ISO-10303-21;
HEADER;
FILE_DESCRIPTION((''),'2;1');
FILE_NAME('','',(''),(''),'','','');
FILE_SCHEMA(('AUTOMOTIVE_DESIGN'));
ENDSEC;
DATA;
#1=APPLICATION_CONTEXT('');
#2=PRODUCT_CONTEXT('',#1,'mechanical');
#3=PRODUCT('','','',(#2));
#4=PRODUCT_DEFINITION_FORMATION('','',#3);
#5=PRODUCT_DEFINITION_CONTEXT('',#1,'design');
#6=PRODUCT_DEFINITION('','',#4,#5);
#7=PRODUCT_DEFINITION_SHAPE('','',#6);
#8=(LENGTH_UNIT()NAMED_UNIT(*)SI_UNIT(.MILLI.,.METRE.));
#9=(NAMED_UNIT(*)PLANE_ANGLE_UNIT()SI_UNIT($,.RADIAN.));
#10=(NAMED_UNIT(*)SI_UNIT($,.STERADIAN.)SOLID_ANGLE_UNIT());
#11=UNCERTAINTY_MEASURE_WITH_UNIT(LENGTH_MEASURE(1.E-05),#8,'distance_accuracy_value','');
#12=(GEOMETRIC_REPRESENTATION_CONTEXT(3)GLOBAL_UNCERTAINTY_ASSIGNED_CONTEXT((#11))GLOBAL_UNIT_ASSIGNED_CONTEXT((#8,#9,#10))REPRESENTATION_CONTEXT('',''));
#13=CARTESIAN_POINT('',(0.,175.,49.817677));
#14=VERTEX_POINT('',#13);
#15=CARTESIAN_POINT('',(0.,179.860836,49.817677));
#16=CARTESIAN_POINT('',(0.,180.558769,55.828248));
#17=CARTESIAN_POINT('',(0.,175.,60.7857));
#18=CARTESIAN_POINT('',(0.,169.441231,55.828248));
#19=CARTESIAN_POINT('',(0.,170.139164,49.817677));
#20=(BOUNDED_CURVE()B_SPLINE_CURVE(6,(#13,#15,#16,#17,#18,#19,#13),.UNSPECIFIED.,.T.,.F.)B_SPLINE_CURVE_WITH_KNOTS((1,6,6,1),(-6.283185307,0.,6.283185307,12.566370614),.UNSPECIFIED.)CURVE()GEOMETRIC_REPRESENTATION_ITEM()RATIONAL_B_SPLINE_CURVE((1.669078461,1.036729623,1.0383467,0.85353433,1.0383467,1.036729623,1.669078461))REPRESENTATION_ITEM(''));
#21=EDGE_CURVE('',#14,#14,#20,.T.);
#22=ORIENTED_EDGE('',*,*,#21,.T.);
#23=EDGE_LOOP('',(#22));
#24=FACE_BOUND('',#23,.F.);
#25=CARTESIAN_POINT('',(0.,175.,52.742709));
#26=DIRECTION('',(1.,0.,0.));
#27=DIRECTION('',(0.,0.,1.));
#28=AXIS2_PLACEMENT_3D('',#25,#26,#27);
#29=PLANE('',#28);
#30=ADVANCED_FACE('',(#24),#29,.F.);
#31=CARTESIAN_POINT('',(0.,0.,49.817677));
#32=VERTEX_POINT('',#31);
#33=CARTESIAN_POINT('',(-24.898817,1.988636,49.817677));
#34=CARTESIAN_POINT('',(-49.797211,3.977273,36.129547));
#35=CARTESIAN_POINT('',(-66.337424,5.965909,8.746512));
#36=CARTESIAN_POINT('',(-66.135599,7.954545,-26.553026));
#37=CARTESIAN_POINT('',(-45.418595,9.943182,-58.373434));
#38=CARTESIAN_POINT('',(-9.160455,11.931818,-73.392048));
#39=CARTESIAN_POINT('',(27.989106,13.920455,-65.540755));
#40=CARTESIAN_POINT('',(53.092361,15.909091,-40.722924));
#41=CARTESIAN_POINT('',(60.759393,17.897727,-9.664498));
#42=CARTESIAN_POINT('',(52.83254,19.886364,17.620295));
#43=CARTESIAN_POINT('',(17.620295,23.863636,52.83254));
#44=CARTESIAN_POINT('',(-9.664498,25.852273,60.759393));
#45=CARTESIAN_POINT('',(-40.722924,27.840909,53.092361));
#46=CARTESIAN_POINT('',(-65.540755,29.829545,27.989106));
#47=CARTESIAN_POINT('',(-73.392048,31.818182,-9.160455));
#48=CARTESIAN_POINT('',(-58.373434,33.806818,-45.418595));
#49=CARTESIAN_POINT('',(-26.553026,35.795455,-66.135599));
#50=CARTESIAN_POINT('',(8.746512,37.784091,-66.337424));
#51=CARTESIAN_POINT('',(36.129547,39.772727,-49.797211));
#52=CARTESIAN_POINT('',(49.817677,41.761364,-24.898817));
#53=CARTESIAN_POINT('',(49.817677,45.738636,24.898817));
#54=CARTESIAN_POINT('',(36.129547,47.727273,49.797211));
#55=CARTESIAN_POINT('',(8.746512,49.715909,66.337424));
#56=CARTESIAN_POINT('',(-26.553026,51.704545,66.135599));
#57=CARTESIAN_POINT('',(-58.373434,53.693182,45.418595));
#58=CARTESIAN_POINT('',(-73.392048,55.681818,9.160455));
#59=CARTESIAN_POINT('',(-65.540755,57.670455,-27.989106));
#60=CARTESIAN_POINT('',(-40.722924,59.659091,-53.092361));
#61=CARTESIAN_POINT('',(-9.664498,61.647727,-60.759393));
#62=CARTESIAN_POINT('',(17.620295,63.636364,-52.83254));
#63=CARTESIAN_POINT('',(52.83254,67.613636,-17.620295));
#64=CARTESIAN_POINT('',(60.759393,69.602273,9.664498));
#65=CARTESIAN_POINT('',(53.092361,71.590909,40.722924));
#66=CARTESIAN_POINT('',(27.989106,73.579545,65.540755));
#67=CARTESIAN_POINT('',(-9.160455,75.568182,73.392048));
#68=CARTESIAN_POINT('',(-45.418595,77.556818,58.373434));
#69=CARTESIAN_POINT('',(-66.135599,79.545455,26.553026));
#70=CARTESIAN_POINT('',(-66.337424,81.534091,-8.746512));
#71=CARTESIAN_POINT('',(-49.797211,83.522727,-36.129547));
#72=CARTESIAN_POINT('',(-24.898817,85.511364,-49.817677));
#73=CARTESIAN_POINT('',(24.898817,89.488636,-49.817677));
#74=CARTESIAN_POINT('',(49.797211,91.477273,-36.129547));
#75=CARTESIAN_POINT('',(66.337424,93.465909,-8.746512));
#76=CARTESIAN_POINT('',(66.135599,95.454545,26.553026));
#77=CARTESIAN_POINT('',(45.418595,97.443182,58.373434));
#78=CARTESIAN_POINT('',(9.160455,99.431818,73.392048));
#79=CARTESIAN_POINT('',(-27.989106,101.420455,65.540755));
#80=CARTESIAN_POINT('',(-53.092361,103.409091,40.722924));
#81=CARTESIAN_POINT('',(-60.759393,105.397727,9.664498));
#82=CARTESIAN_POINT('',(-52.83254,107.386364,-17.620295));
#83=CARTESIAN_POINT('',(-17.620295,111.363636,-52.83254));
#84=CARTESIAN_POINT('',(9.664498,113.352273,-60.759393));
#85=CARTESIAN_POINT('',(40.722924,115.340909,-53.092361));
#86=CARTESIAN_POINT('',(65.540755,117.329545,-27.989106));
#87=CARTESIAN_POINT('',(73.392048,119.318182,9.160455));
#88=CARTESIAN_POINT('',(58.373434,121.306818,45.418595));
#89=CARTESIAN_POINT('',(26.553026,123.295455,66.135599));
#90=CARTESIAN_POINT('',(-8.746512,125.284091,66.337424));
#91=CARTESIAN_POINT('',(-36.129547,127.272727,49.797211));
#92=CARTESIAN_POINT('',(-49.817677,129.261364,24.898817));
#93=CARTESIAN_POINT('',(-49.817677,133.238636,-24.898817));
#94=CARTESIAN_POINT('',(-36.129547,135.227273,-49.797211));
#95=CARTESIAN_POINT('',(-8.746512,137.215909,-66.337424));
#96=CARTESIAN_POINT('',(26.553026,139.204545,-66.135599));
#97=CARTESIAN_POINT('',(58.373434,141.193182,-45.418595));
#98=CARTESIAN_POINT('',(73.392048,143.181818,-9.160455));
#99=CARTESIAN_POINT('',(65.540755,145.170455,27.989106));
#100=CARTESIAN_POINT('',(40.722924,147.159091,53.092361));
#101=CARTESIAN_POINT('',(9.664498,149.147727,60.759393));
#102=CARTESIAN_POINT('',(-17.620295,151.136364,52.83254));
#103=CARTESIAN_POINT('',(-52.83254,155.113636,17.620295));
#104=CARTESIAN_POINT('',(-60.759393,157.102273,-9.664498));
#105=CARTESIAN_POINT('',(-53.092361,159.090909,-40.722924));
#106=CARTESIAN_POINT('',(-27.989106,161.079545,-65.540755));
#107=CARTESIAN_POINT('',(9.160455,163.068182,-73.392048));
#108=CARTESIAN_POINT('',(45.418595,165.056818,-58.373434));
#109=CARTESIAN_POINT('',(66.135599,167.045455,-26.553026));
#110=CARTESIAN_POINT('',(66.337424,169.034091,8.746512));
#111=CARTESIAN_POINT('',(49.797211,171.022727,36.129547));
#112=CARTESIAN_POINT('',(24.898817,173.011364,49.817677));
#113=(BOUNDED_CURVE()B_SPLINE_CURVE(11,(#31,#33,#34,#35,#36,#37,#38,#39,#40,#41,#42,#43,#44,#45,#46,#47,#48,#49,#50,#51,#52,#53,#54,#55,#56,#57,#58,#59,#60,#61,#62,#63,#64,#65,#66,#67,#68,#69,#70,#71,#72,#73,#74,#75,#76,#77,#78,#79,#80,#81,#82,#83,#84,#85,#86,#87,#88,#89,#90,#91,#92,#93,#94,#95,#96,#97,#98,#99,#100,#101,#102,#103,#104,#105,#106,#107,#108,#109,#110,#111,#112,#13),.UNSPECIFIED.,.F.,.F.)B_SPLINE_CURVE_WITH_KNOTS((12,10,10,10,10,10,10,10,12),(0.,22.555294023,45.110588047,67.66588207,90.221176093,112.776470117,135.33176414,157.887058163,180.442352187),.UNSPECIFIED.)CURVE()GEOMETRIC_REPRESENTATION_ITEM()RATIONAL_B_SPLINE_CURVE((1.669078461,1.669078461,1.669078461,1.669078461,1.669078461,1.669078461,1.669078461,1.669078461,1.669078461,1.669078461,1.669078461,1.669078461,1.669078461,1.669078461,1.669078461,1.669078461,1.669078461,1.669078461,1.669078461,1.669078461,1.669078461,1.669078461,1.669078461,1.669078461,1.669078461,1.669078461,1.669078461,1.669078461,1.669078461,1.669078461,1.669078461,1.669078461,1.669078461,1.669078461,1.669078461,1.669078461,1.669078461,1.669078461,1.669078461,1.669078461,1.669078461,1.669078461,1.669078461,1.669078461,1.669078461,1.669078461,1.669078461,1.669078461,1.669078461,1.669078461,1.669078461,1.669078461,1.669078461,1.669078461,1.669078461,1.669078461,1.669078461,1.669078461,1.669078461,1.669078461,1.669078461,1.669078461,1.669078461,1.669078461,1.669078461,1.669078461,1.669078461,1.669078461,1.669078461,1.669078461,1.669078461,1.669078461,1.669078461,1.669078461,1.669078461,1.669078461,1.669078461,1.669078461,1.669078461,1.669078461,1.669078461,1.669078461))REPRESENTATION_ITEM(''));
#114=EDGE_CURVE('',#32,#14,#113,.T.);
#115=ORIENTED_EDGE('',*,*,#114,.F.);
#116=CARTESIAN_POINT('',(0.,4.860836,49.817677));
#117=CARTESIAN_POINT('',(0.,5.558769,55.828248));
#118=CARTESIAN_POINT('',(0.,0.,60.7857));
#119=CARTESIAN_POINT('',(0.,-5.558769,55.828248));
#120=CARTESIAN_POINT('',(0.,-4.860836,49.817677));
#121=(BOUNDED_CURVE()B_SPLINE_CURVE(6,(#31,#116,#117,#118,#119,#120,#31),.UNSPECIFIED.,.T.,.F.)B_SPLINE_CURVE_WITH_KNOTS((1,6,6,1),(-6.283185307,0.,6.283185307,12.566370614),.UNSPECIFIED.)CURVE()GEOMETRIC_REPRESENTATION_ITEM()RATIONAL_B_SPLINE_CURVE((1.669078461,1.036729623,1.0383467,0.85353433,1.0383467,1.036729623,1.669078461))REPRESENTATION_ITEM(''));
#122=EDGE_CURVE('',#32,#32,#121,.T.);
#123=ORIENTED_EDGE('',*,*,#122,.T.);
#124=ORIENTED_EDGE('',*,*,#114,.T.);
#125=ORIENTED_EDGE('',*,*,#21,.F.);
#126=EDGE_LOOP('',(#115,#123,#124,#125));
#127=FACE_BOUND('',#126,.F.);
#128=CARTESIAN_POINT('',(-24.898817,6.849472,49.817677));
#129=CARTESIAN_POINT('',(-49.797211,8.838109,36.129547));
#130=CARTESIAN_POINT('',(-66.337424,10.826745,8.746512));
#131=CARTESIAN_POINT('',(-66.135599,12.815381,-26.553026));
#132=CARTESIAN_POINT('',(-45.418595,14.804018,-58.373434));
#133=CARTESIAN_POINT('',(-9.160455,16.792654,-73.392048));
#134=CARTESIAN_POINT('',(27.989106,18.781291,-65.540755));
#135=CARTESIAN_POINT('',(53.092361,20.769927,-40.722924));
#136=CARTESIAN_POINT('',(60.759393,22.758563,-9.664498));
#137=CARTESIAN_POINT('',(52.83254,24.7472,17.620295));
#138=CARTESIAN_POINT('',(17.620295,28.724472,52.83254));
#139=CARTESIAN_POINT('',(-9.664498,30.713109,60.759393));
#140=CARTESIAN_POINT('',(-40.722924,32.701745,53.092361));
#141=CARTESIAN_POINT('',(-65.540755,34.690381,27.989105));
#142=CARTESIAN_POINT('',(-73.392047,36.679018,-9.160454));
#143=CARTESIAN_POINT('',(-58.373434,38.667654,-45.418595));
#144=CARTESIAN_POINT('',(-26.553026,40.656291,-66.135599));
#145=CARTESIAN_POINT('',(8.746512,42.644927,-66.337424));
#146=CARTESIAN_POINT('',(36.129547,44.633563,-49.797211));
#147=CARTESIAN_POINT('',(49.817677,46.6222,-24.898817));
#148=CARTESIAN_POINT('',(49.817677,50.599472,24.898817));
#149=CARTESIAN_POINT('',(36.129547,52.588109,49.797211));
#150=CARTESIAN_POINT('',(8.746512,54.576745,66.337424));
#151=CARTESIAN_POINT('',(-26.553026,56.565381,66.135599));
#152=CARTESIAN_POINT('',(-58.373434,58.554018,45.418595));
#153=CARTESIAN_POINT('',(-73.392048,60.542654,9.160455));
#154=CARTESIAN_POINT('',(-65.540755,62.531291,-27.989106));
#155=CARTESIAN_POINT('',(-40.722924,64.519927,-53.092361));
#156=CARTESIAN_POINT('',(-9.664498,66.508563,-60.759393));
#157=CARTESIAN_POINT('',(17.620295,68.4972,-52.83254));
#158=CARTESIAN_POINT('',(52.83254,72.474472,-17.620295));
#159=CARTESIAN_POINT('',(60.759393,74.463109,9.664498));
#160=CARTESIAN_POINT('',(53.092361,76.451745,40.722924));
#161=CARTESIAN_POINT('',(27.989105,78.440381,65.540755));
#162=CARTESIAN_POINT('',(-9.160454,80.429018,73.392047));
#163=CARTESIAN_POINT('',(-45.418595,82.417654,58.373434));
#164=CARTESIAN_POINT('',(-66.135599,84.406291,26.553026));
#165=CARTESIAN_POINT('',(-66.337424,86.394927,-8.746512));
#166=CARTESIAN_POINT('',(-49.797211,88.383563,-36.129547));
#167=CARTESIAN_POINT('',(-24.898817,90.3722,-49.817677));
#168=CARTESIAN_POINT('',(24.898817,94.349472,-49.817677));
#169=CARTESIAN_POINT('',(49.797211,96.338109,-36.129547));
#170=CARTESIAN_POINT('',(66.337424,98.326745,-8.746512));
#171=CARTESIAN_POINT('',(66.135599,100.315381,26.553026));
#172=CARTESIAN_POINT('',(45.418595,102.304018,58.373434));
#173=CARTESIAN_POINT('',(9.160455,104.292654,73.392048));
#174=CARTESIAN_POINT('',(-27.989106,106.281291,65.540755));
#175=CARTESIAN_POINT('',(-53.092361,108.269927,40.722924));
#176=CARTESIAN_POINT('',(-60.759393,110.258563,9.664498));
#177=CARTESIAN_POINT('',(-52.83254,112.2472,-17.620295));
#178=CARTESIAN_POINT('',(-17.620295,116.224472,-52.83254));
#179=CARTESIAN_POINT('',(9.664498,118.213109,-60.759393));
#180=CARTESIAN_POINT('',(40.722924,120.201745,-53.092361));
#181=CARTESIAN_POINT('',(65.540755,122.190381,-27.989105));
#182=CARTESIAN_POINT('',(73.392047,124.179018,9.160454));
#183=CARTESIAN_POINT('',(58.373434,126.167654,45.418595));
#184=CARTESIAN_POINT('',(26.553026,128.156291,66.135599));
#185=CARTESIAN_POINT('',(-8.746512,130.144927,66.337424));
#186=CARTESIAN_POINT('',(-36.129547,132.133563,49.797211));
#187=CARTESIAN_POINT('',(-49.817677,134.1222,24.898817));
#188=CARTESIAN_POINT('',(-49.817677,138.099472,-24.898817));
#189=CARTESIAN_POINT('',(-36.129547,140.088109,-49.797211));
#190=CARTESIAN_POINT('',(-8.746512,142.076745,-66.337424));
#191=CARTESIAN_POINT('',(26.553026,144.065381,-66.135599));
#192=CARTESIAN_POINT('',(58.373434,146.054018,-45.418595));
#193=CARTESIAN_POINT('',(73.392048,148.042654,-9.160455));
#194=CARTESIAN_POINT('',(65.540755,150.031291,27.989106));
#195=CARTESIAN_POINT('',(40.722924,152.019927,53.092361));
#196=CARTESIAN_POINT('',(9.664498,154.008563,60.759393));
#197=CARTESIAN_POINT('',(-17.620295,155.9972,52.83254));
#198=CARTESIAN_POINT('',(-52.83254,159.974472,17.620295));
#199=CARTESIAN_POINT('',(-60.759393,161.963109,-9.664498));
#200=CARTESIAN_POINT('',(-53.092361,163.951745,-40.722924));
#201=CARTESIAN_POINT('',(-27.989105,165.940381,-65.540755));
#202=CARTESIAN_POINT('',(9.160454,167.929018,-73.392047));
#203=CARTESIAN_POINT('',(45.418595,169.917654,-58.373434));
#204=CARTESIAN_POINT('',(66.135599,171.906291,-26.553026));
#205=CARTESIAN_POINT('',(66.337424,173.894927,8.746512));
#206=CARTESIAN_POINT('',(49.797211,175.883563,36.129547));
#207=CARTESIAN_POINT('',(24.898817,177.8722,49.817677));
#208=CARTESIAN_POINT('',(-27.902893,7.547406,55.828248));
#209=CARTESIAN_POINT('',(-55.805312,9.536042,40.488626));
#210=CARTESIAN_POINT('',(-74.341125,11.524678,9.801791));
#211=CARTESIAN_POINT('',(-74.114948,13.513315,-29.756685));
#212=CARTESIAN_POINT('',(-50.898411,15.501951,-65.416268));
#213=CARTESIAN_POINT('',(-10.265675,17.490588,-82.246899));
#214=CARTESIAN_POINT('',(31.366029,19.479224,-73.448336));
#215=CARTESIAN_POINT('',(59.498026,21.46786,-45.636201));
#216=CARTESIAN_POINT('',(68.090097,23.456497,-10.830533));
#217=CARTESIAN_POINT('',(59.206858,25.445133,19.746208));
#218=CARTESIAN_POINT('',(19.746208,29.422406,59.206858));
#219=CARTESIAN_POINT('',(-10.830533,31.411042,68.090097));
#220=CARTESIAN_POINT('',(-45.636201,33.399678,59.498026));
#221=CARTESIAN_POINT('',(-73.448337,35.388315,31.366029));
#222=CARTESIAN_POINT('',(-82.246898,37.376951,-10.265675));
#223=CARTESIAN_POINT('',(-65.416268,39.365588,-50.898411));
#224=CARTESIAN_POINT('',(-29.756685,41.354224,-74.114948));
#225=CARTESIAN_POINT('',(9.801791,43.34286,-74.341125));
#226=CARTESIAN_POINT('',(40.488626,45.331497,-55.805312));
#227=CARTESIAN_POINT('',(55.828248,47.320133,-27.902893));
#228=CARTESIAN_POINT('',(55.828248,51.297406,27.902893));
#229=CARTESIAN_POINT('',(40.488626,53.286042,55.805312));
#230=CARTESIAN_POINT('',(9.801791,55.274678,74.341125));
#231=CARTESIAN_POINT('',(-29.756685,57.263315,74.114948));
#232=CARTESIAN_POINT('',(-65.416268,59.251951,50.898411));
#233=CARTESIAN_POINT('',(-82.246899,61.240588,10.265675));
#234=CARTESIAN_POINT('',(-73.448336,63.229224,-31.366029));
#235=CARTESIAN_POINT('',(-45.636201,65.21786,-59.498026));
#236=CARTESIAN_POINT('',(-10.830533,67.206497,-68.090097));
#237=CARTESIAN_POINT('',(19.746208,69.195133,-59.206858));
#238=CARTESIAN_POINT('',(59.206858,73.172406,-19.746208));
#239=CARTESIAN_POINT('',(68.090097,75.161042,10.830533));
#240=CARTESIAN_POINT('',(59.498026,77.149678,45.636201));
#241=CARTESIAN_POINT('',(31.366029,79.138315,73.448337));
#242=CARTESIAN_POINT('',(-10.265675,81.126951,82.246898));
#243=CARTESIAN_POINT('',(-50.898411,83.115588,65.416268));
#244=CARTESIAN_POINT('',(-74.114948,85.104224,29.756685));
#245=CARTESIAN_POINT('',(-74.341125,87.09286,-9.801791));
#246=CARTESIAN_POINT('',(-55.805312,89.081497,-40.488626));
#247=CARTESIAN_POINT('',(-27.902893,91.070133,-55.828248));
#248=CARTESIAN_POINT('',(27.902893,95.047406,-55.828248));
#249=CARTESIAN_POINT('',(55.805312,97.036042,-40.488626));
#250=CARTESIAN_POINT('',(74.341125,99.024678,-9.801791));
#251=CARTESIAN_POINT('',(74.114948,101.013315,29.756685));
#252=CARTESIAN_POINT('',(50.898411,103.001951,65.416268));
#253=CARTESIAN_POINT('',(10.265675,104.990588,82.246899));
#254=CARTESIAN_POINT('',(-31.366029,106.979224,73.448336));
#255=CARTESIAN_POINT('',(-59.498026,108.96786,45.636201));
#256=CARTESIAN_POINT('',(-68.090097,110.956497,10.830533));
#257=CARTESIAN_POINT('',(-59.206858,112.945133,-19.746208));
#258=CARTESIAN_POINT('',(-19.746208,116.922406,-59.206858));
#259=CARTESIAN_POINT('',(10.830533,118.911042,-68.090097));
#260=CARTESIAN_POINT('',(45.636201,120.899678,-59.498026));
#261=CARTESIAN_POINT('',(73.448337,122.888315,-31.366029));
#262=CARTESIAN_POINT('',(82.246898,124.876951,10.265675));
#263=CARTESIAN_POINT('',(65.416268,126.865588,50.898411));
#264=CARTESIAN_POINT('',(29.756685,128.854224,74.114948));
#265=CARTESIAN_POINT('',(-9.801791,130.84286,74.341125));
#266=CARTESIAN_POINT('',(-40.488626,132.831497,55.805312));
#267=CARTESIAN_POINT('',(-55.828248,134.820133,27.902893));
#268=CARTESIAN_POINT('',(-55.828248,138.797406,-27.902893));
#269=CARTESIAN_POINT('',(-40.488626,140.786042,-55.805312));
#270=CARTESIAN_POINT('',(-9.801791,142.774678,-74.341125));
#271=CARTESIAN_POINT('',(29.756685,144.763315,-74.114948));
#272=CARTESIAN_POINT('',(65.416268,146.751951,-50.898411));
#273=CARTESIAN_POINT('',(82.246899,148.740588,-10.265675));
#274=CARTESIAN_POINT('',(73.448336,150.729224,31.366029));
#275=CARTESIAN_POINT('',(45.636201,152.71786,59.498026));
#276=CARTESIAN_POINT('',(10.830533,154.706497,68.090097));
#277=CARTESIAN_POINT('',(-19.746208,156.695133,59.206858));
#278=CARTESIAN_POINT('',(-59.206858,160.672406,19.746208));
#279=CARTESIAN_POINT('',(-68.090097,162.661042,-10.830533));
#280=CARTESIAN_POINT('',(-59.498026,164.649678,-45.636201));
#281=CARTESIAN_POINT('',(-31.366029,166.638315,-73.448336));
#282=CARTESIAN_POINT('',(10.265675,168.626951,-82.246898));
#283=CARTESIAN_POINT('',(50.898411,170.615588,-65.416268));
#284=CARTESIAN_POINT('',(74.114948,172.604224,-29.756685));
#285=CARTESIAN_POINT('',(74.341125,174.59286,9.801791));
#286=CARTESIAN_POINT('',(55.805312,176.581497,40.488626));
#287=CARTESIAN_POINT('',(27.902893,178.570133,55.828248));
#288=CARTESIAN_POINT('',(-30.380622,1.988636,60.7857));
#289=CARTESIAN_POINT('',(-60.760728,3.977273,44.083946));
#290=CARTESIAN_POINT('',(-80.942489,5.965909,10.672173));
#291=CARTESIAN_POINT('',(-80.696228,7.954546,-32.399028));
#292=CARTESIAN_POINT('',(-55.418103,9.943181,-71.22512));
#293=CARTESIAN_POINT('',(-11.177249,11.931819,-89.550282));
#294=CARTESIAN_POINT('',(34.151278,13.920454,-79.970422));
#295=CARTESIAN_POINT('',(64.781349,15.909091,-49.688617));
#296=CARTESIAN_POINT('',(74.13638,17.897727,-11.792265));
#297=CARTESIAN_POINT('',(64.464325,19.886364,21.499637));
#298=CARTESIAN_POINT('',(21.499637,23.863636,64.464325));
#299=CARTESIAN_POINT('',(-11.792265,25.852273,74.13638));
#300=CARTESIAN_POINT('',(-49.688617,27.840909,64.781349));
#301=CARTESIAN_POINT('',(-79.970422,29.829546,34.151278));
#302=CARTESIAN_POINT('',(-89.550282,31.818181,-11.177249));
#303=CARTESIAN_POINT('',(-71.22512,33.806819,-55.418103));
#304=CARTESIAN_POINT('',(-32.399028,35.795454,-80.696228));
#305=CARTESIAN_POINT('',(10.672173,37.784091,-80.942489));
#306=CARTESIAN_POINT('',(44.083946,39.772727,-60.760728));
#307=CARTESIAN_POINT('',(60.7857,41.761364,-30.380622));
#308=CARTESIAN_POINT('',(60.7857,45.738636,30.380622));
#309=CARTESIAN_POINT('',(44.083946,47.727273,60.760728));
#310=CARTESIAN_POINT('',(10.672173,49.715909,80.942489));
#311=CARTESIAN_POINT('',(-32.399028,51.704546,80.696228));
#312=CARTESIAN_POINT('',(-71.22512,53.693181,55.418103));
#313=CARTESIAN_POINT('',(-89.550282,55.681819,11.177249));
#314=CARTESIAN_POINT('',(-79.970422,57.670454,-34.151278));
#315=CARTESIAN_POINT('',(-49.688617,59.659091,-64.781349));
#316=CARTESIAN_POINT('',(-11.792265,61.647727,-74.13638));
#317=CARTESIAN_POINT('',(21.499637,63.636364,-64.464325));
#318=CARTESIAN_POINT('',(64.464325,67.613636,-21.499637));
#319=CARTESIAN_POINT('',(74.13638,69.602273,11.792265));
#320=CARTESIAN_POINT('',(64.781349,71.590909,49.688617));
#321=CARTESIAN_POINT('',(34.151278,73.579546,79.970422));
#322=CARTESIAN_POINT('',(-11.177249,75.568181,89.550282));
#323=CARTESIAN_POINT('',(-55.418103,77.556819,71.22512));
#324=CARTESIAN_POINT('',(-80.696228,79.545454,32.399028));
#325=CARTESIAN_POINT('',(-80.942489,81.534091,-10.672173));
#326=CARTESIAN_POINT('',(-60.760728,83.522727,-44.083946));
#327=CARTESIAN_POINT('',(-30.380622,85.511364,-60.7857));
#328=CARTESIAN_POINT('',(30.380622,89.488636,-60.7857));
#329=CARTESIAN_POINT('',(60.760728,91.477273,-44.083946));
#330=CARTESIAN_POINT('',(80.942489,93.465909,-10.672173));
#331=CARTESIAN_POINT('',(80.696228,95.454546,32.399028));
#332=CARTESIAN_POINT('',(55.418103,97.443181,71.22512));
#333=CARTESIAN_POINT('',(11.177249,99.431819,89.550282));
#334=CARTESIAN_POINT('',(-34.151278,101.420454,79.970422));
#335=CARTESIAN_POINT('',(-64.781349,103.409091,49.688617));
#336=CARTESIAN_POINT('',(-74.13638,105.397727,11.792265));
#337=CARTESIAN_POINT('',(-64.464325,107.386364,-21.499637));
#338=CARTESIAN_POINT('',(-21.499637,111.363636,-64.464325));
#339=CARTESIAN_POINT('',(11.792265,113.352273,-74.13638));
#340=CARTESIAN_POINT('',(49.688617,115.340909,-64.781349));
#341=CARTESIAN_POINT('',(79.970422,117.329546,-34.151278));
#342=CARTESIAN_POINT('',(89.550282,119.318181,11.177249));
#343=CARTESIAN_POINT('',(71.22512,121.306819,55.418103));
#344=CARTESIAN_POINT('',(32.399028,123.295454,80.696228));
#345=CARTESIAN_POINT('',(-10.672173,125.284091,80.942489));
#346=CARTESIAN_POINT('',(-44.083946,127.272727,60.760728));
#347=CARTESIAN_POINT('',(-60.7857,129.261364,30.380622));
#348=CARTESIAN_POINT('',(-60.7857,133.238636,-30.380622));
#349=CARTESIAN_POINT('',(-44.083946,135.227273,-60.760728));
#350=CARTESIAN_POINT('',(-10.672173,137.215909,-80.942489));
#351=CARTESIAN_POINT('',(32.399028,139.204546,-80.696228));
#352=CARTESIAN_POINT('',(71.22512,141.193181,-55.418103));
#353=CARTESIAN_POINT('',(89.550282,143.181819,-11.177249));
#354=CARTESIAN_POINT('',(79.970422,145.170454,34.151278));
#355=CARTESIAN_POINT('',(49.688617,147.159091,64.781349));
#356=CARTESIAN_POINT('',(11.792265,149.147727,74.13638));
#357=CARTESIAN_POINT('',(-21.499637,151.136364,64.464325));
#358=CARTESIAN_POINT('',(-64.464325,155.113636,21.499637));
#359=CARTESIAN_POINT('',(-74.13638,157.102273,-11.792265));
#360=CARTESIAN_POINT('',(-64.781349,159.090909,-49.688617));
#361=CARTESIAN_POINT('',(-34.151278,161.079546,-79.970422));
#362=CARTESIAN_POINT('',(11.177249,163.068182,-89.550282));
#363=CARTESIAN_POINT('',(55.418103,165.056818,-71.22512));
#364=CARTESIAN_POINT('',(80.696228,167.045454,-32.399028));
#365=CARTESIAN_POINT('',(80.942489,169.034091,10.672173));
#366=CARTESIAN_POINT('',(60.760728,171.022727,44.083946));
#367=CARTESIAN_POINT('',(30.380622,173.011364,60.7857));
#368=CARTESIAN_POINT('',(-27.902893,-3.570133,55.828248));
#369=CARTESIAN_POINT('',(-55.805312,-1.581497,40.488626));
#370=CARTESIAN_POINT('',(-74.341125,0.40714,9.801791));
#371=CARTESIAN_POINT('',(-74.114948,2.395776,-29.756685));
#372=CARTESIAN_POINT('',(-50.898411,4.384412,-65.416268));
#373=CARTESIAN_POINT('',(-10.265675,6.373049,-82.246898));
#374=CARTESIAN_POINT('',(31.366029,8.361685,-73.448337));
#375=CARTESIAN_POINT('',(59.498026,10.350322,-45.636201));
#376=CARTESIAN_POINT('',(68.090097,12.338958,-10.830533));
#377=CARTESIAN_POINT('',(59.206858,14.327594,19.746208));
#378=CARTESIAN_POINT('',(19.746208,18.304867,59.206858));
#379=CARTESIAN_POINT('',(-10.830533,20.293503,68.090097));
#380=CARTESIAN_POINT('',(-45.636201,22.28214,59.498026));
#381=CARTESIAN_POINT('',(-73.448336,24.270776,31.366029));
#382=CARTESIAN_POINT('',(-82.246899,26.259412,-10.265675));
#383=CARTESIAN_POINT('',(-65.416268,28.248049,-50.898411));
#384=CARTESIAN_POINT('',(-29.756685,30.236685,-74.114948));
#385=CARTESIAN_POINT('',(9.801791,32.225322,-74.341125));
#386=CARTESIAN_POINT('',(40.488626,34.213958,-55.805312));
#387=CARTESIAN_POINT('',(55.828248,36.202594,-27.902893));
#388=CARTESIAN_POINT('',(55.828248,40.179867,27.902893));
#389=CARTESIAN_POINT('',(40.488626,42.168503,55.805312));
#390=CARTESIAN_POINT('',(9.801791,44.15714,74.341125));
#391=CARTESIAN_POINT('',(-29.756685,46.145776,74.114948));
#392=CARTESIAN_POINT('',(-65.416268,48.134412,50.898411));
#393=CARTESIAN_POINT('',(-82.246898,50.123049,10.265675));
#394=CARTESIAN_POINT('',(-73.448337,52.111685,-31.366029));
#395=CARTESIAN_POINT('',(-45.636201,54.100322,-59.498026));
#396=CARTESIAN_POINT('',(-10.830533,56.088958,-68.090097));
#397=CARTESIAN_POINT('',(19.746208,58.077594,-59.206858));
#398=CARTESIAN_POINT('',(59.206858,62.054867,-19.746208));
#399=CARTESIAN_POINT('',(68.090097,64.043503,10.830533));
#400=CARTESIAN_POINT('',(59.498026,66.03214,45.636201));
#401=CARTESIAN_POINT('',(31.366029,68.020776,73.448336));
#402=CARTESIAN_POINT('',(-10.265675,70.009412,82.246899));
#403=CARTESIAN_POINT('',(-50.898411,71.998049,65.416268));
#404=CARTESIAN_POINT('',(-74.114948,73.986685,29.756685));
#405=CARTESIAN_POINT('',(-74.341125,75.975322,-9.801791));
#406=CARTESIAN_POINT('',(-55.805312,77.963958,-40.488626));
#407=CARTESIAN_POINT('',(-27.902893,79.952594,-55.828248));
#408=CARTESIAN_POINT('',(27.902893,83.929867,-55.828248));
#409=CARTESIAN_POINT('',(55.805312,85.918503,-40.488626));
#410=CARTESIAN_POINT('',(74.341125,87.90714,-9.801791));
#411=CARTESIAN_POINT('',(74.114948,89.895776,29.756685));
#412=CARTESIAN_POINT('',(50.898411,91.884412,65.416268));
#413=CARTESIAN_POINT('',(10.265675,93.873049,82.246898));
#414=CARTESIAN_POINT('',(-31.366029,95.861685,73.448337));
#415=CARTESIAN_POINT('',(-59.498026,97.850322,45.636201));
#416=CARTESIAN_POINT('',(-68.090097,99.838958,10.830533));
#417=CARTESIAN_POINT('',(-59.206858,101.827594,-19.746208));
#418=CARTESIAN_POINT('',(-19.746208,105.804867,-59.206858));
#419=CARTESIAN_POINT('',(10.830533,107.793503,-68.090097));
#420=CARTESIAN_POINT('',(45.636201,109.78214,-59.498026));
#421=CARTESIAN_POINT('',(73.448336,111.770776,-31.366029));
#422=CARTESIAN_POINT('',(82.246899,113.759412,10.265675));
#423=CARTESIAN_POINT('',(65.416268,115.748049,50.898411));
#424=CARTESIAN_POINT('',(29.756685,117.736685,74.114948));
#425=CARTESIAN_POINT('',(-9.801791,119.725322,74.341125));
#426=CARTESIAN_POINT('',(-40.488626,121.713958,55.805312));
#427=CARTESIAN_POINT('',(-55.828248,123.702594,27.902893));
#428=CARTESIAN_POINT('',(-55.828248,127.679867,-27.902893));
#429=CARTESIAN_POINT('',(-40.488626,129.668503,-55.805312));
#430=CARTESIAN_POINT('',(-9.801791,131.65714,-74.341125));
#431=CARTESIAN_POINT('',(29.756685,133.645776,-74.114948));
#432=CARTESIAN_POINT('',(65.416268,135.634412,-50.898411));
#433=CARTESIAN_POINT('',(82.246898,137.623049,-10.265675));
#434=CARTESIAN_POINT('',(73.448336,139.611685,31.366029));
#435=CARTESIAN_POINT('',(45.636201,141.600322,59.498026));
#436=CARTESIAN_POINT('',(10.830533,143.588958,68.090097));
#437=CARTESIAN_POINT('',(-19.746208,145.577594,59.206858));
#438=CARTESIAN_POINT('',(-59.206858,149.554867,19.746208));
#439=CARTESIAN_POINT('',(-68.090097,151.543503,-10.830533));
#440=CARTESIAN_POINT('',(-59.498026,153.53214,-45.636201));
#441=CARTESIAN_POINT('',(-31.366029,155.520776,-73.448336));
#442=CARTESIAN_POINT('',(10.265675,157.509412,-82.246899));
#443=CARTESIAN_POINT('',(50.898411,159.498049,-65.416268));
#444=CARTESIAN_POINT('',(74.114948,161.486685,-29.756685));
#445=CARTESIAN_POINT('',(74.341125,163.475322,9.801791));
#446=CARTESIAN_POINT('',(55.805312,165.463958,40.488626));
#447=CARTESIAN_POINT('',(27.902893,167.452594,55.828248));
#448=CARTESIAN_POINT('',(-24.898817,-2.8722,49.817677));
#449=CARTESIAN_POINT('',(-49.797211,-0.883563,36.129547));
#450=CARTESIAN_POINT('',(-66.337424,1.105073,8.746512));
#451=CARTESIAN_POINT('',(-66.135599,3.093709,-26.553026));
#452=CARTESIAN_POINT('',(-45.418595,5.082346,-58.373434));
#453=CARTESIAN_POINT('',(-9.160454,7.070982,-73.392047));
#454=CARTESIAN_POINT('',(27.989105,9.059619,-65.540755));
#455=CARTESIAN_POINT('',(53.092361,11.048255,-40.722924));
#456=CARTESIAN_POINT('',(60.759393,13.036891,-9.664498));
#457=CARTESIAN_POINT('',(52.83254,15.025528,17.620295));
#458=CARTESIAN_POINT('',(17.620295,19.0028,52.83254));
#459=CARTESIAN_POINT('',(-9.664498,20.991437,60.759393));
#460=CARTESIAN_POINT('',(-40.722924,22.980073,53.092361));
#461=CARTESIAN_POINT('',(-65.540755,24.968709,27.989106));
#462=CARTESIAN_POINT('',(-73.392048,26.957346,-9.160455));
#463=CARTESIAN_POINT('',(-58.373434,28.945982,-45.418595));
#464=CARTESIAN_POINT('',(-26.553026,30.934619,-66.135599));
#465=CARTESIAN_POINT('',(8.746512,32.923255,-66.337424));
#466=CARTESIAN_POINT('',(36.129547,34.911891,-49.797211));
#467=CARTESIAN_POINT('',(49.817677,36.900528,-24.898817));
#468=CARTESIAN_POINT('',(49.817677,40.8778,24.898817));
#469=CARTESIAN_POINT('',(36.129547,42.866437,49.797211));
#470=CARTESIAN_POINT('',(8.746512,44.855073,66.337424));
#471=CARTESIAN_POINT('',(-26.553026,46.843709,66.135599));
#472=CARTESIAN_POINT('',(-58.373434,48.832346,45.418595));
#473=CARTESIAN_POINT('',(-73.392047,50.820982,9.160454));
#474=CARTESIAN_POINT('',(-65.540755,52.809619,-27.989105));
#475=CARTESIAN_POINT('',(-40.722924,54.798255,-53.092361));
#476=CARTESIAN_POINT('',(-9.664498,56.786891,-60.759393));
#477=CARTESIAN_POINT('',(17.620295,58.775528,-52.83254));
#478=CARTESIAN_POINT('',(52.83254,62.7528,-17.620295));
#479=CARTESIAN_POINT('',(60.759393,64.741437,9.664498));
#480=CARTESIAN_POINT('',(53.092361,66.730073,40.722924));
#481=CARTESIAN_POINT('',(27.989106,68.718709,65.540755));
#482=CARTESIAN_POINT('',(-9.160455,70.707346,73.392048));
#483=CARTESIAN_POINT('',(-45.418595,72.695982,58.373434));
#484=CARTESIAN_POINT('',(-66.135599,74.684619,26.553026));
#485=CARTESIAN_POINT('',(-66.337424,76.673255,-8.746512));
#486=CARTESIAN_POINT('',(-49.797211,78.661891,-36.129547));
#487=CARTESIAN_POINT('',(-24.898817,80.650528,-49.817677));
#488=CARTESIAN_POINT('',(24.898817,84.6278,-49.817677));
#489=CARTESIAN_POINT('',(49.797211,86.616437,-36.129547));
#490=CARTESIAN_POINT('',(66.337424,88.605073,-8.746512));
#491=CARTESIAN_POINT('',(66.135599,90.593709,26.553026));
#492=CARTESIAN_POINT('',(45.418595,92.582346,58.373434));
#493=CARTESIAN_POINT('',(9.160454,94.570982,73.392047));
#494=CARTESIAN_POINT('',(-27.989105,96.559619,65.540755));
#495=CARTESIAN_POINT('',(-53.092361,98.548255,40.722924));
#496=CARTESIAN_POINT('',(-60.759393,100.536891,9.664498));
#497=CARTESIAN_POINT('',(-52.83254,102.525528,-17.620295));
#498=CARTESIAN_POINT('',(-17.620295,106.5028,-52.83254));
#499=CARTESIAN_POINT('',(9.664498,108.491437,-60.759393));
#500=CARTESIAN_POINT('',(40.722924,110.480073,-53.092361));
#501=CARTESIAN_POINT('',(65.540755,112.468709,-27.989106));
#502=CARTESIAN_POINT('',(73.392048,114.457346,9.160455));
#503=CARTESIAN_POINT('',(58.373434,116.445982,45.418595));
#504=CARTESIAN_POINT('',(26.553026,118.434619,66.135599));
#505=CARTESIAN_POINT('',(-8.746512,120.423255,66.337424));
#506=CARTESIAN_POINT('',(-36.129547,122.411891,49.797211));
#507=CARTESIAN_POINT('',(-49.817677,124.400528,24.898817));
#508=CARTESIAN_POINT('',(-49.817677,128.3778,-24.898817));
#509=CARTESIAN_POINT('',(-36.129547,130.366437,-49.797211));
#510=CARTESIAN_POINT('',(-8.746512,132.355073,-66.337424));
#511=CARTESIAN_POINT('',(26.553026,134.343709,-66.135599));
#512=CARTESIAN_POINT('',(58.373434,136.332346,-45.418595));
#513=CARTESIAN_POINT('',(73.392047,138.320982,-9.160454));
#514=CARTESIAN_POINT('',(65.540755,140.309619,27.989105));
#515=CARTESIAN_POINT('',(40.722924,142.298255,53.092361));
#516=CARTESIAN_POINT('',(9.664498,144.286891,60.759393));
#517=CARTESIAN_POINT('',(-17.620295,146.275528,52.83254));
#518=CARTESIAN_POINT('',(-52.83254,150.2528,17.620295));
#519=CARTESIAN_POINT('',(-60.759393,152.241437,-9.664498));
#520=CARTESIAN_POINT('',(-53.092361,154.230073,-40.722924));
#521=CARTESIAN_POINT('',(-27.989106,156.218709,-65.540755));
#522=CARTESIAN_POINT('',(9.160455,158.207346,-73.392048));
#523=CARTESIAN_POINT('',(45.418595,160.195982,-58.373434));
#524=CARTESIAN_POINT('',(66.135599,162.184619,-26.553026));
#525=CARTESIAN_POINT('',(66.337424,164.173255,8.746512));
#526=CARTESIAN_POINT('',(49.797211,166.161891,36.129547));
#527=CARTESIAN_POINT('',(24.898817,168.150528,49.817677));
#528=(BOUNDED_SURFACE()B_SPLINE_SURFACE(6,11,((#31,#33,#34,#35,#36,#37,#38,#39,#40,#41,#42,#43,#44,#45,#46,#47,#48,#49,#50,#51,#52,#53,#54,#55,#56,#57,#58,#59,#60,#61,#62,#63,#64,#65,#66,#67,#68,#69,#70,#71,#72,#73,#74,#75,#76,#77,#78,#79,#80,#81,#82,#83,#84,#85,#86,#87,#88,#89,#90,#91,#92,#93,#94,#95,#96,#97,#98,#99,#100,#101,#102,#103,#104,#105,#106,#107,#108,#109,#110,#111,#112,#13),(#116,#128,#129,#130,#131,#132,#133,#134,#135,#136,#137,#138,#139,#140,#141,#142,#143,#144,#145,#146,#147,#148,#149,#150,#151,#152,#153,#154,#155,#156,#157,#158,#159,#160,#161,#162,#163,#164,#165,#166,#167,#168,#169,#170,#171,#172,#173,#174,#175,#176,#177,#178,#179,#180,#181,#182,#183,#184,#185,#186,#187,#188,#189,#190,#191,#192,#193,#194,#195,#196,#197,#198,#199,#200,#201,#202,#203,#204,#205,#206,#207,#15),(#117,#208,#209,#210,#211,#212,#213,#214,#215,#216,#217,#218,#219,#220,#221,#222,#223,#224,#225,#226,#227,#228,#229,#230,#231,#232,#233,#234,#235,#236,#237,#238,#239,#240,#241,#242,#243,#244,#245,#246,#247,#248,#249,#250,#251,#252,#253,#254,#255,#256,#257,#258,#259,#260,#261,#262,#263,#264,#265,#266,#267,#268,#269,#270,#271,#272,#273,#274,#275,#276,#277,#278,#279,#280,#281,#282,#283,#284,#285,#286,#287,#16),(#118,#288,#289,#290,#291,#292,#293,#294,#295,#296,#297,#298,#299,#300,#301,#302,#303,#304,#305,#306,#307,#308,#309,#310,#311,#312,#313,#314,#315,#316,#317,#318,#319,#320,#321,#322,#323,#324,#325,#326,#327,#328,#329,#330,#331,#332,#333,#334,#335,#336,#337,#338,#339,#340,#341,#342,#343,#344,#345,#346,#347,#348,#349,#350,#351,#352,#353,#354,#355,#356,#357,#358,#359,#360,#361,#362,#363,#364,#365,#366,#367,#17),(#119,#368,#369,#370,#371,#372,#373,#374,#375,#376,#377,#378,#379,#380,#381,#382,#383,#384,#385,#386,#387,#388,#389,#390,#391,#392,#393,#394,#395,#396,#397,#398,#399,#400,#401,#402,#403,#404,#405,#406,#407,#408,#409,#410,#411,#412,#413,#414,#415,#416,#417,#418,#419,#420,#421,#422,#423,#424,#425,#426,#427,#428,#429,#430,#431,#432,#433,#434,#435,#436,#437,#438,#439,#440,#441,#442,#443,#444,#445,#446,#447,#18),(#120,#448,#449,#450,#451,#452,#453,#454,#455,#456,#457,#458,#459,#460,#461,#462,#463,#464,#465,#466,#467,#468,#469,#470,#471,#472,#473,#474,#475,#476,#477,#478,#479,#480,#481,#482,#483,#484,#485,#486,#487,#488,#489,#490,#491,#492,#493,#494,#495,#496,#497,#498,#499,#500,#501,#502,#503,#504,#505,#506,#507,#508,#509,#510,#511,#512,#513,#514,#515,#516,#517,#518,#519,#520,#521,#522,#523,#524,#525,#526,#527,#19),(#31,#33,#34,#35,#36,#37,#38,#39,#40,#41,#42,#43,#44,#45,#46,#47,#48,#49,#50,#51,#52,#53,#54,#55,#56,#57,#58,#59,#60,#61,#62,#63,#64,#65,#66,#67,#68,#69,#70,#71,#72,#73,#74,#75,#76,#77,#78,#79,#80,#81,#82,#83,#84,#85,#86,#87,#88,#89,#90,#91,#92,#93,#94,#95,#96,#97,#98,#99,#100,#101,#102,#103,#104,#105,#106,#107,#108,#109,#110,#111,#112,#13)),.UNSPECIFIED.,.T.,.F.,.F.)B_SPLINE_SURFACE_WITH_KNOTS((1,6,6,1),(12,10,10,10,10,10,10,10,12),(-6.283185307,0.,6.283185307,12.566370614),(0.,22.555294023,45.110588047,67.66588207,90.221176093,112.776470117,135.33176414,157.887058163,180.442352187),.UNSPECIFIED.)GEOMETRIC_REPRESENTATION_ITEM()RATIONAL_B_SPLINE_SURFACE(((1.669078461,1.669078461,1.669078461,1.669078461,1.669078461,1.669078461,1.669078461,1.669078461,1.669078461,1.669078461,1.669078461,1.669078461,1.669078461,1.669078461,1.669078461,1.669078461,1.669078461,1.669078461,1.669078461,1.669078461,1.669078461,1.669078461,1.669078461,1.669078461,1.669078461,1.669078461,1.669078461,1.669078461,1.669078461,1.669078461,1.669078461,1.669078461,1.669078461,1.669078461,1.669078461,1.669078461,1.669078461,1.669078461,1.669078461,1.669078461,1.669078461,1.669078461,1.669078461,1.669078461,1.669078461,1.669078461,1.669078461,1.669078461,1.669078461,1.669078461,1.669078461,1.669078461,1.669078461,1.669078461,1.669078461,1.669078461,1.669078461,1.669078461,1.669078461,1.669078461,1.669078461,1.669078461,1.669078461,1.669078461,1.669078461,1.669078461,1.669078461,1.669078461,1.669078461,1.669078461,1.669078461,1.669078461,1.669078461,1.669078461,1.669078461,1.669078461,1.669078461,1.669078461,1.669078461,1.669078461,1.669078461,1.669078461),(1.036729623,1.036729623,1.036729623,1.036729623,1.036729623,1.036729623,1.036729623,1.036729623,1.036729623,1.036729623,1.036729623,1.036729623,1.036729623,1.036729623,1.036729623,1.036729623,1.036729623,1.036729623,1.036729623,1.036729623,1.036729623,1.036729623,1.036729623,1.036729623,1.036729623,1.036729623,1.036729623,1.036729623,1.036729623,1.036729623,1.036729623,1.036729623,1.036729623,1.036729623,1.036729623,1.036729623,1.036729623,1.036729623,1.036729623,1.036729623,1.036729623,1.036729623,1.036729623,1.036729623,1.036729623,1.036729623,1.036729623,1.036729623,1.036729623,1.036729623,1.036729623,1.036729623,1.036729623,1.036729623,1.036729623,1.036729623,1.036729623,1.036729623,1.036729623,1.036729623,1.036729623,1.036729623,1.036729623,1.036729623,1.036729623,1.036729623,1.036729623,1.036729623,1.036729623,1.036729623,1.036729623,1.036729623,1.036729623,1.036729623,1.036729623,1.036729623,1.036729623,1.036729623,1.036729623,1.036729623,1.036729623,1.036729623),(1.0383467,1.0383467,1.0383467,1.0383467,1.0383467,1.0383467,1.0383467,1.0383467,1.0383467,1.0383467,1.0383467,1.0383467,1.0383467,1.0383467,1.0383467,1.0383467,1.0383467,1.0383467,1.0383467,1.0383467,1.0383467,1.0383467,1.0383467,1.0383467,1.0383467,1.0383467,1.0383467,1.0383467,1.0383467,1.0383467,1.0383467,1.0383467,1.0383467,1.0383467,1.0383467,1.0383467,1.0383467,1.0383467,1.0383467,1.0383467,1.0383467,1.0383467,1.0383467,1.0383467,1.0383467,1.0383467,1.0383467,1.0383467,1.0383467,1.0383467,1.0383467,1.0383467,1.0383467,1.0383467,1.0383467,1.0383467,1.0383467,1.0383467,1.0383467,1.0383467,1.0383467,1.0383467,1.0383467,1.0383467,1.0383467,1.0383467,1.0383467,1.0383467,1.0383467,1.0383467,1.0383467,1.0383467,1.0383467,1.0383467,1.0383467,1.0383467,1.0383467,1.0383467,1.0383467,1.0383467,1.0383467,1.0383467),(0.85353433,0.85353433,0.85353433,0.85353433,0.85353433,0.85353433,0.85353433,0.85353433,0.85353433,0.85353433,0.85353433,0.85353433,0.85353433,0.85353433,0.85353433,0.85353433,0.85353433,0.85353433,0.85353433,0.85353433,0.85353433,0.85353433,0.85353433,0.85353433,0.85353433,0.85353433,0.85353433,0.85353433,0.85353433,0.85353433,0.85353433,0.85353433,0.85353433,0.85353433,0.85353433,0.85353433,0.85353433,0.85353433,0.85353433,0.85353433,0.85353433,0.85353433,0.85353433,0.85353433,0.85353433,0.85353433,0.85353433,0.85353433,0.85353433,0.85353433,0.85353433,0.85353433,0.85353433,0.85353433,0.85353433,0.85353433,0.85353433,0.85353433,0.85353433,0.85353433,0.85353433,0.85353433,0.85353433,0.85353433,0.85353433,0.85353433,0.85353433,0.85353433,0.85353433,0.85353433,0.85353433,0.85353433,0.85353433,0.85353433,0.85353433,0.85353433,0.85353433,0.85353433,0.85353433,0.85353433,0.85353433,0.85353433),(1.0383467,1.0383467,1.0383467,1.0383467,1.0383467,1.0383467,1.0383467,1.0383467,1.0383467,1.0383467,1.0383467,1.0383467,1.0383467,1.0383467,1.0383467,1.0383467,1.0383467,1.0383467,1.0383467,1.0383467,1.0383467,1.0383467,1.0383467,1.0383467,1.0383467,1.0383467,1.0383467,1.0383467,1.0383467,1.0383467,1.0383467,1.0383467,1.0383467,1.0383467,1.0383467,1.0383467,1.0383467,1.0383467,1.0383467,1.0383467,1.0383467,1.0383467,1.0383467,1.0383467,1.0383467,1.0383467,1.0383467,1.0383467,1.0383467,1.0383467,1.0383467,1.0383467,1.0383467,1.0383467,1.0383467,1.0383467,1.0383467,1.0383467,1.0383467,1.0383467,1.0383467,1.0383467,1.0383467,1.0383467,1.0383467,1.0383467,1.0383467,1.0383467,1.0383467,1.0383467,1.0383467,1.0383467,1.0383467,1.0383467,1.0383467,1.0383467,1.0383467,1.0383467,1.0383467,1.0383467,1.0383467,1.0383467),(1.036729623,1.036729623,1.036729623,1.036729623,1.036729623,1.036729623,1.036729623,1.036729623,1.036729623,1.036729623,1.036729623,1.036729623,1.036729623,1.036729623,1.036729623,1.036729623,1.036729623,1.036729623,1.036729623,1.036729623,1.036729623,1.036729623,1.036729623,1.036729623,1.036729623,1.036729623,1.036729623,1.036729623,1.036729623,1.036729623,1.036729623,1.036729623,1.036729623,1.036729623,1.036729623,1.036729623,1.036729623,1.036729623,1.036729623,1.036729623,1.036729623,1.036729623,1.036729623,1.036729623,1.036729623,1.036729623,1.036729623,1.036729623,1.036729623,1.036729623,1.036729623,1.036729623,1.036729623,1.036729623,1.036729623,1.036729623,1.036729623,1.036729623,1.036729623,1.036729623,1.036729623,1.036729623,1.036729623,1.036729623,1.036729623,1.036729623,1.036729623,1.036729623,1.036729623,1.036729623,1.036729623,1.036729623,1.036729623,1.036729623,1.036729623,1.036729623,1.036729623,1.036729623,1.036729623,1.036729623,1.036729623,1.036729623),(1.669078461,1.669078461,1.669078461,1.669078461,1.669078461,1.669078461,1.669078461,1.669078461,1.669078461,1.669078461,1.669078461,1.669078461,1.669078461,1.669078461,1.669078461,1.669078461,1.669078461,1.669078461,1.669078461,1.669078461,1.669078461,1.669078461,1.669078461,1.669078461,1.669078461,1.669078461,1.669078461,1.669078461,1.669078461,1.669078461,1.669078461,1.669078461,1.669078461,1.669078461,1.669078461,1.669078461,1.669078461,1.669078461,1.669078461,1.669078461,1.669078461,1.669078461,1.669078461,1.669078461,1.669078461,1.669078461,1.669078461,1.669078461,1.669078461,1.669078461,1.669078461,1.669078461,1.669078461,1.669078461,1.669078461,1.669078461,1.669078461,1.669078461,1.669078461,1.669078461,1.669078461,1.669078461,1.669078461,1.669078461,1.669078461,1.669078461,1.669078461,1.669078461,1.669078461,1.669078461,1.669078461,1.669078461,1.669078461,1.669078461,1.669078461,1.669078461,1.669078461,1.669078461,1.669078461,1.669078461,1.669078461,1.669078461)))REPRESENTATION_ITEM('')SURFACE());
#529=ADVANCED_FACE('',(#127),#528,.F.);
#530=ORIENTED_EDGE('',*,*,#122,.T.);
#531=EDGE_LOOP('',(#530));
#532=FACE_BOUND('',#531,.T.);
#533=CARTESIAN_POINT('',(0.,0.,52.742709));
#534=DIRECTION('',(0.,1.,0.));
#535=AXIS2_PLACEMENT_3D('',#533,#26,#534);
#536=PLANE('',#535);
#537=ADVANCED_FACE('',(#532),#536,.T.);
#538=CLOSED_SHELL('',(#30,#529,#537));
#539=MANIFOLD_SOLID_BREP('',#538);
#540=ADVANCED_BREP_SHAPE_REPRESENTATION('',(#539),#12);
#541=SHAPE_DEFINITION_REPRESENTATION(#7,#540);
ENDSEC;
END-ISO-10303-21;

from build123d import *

# Parameters (mm, degrees)
SWEEP3_PITCH  = 25
SWEEP3_HEIGHT = 175
SWEEP3_RADIUS = 52.743172296
SKETCH12_R    = 2.925495086


with BuildPart() as part:
    # Sweep3: sweep along a helix
    with BuildLine() as sweep3_path:
        Helix(SWEEP3_PITCH, SWEEP3_HEIGHT, SWEEP3_RADIUS, center=(0, 0, 0), direction=(0, 1, 0), lefthand=True)
    # Sketch12 → Sweep3 (sweep)
    with BuildSketch(Plane(origin=(0, 0, 0), x_dir=(0, 0, -1), z_dir=(1, 0, 0))):
        with Locations((-52.743172296, 0)):
            Circle(SKETCH12_R)
    sweep(path=sweep3_path.line, is_frenet=True)


solid = part.part
